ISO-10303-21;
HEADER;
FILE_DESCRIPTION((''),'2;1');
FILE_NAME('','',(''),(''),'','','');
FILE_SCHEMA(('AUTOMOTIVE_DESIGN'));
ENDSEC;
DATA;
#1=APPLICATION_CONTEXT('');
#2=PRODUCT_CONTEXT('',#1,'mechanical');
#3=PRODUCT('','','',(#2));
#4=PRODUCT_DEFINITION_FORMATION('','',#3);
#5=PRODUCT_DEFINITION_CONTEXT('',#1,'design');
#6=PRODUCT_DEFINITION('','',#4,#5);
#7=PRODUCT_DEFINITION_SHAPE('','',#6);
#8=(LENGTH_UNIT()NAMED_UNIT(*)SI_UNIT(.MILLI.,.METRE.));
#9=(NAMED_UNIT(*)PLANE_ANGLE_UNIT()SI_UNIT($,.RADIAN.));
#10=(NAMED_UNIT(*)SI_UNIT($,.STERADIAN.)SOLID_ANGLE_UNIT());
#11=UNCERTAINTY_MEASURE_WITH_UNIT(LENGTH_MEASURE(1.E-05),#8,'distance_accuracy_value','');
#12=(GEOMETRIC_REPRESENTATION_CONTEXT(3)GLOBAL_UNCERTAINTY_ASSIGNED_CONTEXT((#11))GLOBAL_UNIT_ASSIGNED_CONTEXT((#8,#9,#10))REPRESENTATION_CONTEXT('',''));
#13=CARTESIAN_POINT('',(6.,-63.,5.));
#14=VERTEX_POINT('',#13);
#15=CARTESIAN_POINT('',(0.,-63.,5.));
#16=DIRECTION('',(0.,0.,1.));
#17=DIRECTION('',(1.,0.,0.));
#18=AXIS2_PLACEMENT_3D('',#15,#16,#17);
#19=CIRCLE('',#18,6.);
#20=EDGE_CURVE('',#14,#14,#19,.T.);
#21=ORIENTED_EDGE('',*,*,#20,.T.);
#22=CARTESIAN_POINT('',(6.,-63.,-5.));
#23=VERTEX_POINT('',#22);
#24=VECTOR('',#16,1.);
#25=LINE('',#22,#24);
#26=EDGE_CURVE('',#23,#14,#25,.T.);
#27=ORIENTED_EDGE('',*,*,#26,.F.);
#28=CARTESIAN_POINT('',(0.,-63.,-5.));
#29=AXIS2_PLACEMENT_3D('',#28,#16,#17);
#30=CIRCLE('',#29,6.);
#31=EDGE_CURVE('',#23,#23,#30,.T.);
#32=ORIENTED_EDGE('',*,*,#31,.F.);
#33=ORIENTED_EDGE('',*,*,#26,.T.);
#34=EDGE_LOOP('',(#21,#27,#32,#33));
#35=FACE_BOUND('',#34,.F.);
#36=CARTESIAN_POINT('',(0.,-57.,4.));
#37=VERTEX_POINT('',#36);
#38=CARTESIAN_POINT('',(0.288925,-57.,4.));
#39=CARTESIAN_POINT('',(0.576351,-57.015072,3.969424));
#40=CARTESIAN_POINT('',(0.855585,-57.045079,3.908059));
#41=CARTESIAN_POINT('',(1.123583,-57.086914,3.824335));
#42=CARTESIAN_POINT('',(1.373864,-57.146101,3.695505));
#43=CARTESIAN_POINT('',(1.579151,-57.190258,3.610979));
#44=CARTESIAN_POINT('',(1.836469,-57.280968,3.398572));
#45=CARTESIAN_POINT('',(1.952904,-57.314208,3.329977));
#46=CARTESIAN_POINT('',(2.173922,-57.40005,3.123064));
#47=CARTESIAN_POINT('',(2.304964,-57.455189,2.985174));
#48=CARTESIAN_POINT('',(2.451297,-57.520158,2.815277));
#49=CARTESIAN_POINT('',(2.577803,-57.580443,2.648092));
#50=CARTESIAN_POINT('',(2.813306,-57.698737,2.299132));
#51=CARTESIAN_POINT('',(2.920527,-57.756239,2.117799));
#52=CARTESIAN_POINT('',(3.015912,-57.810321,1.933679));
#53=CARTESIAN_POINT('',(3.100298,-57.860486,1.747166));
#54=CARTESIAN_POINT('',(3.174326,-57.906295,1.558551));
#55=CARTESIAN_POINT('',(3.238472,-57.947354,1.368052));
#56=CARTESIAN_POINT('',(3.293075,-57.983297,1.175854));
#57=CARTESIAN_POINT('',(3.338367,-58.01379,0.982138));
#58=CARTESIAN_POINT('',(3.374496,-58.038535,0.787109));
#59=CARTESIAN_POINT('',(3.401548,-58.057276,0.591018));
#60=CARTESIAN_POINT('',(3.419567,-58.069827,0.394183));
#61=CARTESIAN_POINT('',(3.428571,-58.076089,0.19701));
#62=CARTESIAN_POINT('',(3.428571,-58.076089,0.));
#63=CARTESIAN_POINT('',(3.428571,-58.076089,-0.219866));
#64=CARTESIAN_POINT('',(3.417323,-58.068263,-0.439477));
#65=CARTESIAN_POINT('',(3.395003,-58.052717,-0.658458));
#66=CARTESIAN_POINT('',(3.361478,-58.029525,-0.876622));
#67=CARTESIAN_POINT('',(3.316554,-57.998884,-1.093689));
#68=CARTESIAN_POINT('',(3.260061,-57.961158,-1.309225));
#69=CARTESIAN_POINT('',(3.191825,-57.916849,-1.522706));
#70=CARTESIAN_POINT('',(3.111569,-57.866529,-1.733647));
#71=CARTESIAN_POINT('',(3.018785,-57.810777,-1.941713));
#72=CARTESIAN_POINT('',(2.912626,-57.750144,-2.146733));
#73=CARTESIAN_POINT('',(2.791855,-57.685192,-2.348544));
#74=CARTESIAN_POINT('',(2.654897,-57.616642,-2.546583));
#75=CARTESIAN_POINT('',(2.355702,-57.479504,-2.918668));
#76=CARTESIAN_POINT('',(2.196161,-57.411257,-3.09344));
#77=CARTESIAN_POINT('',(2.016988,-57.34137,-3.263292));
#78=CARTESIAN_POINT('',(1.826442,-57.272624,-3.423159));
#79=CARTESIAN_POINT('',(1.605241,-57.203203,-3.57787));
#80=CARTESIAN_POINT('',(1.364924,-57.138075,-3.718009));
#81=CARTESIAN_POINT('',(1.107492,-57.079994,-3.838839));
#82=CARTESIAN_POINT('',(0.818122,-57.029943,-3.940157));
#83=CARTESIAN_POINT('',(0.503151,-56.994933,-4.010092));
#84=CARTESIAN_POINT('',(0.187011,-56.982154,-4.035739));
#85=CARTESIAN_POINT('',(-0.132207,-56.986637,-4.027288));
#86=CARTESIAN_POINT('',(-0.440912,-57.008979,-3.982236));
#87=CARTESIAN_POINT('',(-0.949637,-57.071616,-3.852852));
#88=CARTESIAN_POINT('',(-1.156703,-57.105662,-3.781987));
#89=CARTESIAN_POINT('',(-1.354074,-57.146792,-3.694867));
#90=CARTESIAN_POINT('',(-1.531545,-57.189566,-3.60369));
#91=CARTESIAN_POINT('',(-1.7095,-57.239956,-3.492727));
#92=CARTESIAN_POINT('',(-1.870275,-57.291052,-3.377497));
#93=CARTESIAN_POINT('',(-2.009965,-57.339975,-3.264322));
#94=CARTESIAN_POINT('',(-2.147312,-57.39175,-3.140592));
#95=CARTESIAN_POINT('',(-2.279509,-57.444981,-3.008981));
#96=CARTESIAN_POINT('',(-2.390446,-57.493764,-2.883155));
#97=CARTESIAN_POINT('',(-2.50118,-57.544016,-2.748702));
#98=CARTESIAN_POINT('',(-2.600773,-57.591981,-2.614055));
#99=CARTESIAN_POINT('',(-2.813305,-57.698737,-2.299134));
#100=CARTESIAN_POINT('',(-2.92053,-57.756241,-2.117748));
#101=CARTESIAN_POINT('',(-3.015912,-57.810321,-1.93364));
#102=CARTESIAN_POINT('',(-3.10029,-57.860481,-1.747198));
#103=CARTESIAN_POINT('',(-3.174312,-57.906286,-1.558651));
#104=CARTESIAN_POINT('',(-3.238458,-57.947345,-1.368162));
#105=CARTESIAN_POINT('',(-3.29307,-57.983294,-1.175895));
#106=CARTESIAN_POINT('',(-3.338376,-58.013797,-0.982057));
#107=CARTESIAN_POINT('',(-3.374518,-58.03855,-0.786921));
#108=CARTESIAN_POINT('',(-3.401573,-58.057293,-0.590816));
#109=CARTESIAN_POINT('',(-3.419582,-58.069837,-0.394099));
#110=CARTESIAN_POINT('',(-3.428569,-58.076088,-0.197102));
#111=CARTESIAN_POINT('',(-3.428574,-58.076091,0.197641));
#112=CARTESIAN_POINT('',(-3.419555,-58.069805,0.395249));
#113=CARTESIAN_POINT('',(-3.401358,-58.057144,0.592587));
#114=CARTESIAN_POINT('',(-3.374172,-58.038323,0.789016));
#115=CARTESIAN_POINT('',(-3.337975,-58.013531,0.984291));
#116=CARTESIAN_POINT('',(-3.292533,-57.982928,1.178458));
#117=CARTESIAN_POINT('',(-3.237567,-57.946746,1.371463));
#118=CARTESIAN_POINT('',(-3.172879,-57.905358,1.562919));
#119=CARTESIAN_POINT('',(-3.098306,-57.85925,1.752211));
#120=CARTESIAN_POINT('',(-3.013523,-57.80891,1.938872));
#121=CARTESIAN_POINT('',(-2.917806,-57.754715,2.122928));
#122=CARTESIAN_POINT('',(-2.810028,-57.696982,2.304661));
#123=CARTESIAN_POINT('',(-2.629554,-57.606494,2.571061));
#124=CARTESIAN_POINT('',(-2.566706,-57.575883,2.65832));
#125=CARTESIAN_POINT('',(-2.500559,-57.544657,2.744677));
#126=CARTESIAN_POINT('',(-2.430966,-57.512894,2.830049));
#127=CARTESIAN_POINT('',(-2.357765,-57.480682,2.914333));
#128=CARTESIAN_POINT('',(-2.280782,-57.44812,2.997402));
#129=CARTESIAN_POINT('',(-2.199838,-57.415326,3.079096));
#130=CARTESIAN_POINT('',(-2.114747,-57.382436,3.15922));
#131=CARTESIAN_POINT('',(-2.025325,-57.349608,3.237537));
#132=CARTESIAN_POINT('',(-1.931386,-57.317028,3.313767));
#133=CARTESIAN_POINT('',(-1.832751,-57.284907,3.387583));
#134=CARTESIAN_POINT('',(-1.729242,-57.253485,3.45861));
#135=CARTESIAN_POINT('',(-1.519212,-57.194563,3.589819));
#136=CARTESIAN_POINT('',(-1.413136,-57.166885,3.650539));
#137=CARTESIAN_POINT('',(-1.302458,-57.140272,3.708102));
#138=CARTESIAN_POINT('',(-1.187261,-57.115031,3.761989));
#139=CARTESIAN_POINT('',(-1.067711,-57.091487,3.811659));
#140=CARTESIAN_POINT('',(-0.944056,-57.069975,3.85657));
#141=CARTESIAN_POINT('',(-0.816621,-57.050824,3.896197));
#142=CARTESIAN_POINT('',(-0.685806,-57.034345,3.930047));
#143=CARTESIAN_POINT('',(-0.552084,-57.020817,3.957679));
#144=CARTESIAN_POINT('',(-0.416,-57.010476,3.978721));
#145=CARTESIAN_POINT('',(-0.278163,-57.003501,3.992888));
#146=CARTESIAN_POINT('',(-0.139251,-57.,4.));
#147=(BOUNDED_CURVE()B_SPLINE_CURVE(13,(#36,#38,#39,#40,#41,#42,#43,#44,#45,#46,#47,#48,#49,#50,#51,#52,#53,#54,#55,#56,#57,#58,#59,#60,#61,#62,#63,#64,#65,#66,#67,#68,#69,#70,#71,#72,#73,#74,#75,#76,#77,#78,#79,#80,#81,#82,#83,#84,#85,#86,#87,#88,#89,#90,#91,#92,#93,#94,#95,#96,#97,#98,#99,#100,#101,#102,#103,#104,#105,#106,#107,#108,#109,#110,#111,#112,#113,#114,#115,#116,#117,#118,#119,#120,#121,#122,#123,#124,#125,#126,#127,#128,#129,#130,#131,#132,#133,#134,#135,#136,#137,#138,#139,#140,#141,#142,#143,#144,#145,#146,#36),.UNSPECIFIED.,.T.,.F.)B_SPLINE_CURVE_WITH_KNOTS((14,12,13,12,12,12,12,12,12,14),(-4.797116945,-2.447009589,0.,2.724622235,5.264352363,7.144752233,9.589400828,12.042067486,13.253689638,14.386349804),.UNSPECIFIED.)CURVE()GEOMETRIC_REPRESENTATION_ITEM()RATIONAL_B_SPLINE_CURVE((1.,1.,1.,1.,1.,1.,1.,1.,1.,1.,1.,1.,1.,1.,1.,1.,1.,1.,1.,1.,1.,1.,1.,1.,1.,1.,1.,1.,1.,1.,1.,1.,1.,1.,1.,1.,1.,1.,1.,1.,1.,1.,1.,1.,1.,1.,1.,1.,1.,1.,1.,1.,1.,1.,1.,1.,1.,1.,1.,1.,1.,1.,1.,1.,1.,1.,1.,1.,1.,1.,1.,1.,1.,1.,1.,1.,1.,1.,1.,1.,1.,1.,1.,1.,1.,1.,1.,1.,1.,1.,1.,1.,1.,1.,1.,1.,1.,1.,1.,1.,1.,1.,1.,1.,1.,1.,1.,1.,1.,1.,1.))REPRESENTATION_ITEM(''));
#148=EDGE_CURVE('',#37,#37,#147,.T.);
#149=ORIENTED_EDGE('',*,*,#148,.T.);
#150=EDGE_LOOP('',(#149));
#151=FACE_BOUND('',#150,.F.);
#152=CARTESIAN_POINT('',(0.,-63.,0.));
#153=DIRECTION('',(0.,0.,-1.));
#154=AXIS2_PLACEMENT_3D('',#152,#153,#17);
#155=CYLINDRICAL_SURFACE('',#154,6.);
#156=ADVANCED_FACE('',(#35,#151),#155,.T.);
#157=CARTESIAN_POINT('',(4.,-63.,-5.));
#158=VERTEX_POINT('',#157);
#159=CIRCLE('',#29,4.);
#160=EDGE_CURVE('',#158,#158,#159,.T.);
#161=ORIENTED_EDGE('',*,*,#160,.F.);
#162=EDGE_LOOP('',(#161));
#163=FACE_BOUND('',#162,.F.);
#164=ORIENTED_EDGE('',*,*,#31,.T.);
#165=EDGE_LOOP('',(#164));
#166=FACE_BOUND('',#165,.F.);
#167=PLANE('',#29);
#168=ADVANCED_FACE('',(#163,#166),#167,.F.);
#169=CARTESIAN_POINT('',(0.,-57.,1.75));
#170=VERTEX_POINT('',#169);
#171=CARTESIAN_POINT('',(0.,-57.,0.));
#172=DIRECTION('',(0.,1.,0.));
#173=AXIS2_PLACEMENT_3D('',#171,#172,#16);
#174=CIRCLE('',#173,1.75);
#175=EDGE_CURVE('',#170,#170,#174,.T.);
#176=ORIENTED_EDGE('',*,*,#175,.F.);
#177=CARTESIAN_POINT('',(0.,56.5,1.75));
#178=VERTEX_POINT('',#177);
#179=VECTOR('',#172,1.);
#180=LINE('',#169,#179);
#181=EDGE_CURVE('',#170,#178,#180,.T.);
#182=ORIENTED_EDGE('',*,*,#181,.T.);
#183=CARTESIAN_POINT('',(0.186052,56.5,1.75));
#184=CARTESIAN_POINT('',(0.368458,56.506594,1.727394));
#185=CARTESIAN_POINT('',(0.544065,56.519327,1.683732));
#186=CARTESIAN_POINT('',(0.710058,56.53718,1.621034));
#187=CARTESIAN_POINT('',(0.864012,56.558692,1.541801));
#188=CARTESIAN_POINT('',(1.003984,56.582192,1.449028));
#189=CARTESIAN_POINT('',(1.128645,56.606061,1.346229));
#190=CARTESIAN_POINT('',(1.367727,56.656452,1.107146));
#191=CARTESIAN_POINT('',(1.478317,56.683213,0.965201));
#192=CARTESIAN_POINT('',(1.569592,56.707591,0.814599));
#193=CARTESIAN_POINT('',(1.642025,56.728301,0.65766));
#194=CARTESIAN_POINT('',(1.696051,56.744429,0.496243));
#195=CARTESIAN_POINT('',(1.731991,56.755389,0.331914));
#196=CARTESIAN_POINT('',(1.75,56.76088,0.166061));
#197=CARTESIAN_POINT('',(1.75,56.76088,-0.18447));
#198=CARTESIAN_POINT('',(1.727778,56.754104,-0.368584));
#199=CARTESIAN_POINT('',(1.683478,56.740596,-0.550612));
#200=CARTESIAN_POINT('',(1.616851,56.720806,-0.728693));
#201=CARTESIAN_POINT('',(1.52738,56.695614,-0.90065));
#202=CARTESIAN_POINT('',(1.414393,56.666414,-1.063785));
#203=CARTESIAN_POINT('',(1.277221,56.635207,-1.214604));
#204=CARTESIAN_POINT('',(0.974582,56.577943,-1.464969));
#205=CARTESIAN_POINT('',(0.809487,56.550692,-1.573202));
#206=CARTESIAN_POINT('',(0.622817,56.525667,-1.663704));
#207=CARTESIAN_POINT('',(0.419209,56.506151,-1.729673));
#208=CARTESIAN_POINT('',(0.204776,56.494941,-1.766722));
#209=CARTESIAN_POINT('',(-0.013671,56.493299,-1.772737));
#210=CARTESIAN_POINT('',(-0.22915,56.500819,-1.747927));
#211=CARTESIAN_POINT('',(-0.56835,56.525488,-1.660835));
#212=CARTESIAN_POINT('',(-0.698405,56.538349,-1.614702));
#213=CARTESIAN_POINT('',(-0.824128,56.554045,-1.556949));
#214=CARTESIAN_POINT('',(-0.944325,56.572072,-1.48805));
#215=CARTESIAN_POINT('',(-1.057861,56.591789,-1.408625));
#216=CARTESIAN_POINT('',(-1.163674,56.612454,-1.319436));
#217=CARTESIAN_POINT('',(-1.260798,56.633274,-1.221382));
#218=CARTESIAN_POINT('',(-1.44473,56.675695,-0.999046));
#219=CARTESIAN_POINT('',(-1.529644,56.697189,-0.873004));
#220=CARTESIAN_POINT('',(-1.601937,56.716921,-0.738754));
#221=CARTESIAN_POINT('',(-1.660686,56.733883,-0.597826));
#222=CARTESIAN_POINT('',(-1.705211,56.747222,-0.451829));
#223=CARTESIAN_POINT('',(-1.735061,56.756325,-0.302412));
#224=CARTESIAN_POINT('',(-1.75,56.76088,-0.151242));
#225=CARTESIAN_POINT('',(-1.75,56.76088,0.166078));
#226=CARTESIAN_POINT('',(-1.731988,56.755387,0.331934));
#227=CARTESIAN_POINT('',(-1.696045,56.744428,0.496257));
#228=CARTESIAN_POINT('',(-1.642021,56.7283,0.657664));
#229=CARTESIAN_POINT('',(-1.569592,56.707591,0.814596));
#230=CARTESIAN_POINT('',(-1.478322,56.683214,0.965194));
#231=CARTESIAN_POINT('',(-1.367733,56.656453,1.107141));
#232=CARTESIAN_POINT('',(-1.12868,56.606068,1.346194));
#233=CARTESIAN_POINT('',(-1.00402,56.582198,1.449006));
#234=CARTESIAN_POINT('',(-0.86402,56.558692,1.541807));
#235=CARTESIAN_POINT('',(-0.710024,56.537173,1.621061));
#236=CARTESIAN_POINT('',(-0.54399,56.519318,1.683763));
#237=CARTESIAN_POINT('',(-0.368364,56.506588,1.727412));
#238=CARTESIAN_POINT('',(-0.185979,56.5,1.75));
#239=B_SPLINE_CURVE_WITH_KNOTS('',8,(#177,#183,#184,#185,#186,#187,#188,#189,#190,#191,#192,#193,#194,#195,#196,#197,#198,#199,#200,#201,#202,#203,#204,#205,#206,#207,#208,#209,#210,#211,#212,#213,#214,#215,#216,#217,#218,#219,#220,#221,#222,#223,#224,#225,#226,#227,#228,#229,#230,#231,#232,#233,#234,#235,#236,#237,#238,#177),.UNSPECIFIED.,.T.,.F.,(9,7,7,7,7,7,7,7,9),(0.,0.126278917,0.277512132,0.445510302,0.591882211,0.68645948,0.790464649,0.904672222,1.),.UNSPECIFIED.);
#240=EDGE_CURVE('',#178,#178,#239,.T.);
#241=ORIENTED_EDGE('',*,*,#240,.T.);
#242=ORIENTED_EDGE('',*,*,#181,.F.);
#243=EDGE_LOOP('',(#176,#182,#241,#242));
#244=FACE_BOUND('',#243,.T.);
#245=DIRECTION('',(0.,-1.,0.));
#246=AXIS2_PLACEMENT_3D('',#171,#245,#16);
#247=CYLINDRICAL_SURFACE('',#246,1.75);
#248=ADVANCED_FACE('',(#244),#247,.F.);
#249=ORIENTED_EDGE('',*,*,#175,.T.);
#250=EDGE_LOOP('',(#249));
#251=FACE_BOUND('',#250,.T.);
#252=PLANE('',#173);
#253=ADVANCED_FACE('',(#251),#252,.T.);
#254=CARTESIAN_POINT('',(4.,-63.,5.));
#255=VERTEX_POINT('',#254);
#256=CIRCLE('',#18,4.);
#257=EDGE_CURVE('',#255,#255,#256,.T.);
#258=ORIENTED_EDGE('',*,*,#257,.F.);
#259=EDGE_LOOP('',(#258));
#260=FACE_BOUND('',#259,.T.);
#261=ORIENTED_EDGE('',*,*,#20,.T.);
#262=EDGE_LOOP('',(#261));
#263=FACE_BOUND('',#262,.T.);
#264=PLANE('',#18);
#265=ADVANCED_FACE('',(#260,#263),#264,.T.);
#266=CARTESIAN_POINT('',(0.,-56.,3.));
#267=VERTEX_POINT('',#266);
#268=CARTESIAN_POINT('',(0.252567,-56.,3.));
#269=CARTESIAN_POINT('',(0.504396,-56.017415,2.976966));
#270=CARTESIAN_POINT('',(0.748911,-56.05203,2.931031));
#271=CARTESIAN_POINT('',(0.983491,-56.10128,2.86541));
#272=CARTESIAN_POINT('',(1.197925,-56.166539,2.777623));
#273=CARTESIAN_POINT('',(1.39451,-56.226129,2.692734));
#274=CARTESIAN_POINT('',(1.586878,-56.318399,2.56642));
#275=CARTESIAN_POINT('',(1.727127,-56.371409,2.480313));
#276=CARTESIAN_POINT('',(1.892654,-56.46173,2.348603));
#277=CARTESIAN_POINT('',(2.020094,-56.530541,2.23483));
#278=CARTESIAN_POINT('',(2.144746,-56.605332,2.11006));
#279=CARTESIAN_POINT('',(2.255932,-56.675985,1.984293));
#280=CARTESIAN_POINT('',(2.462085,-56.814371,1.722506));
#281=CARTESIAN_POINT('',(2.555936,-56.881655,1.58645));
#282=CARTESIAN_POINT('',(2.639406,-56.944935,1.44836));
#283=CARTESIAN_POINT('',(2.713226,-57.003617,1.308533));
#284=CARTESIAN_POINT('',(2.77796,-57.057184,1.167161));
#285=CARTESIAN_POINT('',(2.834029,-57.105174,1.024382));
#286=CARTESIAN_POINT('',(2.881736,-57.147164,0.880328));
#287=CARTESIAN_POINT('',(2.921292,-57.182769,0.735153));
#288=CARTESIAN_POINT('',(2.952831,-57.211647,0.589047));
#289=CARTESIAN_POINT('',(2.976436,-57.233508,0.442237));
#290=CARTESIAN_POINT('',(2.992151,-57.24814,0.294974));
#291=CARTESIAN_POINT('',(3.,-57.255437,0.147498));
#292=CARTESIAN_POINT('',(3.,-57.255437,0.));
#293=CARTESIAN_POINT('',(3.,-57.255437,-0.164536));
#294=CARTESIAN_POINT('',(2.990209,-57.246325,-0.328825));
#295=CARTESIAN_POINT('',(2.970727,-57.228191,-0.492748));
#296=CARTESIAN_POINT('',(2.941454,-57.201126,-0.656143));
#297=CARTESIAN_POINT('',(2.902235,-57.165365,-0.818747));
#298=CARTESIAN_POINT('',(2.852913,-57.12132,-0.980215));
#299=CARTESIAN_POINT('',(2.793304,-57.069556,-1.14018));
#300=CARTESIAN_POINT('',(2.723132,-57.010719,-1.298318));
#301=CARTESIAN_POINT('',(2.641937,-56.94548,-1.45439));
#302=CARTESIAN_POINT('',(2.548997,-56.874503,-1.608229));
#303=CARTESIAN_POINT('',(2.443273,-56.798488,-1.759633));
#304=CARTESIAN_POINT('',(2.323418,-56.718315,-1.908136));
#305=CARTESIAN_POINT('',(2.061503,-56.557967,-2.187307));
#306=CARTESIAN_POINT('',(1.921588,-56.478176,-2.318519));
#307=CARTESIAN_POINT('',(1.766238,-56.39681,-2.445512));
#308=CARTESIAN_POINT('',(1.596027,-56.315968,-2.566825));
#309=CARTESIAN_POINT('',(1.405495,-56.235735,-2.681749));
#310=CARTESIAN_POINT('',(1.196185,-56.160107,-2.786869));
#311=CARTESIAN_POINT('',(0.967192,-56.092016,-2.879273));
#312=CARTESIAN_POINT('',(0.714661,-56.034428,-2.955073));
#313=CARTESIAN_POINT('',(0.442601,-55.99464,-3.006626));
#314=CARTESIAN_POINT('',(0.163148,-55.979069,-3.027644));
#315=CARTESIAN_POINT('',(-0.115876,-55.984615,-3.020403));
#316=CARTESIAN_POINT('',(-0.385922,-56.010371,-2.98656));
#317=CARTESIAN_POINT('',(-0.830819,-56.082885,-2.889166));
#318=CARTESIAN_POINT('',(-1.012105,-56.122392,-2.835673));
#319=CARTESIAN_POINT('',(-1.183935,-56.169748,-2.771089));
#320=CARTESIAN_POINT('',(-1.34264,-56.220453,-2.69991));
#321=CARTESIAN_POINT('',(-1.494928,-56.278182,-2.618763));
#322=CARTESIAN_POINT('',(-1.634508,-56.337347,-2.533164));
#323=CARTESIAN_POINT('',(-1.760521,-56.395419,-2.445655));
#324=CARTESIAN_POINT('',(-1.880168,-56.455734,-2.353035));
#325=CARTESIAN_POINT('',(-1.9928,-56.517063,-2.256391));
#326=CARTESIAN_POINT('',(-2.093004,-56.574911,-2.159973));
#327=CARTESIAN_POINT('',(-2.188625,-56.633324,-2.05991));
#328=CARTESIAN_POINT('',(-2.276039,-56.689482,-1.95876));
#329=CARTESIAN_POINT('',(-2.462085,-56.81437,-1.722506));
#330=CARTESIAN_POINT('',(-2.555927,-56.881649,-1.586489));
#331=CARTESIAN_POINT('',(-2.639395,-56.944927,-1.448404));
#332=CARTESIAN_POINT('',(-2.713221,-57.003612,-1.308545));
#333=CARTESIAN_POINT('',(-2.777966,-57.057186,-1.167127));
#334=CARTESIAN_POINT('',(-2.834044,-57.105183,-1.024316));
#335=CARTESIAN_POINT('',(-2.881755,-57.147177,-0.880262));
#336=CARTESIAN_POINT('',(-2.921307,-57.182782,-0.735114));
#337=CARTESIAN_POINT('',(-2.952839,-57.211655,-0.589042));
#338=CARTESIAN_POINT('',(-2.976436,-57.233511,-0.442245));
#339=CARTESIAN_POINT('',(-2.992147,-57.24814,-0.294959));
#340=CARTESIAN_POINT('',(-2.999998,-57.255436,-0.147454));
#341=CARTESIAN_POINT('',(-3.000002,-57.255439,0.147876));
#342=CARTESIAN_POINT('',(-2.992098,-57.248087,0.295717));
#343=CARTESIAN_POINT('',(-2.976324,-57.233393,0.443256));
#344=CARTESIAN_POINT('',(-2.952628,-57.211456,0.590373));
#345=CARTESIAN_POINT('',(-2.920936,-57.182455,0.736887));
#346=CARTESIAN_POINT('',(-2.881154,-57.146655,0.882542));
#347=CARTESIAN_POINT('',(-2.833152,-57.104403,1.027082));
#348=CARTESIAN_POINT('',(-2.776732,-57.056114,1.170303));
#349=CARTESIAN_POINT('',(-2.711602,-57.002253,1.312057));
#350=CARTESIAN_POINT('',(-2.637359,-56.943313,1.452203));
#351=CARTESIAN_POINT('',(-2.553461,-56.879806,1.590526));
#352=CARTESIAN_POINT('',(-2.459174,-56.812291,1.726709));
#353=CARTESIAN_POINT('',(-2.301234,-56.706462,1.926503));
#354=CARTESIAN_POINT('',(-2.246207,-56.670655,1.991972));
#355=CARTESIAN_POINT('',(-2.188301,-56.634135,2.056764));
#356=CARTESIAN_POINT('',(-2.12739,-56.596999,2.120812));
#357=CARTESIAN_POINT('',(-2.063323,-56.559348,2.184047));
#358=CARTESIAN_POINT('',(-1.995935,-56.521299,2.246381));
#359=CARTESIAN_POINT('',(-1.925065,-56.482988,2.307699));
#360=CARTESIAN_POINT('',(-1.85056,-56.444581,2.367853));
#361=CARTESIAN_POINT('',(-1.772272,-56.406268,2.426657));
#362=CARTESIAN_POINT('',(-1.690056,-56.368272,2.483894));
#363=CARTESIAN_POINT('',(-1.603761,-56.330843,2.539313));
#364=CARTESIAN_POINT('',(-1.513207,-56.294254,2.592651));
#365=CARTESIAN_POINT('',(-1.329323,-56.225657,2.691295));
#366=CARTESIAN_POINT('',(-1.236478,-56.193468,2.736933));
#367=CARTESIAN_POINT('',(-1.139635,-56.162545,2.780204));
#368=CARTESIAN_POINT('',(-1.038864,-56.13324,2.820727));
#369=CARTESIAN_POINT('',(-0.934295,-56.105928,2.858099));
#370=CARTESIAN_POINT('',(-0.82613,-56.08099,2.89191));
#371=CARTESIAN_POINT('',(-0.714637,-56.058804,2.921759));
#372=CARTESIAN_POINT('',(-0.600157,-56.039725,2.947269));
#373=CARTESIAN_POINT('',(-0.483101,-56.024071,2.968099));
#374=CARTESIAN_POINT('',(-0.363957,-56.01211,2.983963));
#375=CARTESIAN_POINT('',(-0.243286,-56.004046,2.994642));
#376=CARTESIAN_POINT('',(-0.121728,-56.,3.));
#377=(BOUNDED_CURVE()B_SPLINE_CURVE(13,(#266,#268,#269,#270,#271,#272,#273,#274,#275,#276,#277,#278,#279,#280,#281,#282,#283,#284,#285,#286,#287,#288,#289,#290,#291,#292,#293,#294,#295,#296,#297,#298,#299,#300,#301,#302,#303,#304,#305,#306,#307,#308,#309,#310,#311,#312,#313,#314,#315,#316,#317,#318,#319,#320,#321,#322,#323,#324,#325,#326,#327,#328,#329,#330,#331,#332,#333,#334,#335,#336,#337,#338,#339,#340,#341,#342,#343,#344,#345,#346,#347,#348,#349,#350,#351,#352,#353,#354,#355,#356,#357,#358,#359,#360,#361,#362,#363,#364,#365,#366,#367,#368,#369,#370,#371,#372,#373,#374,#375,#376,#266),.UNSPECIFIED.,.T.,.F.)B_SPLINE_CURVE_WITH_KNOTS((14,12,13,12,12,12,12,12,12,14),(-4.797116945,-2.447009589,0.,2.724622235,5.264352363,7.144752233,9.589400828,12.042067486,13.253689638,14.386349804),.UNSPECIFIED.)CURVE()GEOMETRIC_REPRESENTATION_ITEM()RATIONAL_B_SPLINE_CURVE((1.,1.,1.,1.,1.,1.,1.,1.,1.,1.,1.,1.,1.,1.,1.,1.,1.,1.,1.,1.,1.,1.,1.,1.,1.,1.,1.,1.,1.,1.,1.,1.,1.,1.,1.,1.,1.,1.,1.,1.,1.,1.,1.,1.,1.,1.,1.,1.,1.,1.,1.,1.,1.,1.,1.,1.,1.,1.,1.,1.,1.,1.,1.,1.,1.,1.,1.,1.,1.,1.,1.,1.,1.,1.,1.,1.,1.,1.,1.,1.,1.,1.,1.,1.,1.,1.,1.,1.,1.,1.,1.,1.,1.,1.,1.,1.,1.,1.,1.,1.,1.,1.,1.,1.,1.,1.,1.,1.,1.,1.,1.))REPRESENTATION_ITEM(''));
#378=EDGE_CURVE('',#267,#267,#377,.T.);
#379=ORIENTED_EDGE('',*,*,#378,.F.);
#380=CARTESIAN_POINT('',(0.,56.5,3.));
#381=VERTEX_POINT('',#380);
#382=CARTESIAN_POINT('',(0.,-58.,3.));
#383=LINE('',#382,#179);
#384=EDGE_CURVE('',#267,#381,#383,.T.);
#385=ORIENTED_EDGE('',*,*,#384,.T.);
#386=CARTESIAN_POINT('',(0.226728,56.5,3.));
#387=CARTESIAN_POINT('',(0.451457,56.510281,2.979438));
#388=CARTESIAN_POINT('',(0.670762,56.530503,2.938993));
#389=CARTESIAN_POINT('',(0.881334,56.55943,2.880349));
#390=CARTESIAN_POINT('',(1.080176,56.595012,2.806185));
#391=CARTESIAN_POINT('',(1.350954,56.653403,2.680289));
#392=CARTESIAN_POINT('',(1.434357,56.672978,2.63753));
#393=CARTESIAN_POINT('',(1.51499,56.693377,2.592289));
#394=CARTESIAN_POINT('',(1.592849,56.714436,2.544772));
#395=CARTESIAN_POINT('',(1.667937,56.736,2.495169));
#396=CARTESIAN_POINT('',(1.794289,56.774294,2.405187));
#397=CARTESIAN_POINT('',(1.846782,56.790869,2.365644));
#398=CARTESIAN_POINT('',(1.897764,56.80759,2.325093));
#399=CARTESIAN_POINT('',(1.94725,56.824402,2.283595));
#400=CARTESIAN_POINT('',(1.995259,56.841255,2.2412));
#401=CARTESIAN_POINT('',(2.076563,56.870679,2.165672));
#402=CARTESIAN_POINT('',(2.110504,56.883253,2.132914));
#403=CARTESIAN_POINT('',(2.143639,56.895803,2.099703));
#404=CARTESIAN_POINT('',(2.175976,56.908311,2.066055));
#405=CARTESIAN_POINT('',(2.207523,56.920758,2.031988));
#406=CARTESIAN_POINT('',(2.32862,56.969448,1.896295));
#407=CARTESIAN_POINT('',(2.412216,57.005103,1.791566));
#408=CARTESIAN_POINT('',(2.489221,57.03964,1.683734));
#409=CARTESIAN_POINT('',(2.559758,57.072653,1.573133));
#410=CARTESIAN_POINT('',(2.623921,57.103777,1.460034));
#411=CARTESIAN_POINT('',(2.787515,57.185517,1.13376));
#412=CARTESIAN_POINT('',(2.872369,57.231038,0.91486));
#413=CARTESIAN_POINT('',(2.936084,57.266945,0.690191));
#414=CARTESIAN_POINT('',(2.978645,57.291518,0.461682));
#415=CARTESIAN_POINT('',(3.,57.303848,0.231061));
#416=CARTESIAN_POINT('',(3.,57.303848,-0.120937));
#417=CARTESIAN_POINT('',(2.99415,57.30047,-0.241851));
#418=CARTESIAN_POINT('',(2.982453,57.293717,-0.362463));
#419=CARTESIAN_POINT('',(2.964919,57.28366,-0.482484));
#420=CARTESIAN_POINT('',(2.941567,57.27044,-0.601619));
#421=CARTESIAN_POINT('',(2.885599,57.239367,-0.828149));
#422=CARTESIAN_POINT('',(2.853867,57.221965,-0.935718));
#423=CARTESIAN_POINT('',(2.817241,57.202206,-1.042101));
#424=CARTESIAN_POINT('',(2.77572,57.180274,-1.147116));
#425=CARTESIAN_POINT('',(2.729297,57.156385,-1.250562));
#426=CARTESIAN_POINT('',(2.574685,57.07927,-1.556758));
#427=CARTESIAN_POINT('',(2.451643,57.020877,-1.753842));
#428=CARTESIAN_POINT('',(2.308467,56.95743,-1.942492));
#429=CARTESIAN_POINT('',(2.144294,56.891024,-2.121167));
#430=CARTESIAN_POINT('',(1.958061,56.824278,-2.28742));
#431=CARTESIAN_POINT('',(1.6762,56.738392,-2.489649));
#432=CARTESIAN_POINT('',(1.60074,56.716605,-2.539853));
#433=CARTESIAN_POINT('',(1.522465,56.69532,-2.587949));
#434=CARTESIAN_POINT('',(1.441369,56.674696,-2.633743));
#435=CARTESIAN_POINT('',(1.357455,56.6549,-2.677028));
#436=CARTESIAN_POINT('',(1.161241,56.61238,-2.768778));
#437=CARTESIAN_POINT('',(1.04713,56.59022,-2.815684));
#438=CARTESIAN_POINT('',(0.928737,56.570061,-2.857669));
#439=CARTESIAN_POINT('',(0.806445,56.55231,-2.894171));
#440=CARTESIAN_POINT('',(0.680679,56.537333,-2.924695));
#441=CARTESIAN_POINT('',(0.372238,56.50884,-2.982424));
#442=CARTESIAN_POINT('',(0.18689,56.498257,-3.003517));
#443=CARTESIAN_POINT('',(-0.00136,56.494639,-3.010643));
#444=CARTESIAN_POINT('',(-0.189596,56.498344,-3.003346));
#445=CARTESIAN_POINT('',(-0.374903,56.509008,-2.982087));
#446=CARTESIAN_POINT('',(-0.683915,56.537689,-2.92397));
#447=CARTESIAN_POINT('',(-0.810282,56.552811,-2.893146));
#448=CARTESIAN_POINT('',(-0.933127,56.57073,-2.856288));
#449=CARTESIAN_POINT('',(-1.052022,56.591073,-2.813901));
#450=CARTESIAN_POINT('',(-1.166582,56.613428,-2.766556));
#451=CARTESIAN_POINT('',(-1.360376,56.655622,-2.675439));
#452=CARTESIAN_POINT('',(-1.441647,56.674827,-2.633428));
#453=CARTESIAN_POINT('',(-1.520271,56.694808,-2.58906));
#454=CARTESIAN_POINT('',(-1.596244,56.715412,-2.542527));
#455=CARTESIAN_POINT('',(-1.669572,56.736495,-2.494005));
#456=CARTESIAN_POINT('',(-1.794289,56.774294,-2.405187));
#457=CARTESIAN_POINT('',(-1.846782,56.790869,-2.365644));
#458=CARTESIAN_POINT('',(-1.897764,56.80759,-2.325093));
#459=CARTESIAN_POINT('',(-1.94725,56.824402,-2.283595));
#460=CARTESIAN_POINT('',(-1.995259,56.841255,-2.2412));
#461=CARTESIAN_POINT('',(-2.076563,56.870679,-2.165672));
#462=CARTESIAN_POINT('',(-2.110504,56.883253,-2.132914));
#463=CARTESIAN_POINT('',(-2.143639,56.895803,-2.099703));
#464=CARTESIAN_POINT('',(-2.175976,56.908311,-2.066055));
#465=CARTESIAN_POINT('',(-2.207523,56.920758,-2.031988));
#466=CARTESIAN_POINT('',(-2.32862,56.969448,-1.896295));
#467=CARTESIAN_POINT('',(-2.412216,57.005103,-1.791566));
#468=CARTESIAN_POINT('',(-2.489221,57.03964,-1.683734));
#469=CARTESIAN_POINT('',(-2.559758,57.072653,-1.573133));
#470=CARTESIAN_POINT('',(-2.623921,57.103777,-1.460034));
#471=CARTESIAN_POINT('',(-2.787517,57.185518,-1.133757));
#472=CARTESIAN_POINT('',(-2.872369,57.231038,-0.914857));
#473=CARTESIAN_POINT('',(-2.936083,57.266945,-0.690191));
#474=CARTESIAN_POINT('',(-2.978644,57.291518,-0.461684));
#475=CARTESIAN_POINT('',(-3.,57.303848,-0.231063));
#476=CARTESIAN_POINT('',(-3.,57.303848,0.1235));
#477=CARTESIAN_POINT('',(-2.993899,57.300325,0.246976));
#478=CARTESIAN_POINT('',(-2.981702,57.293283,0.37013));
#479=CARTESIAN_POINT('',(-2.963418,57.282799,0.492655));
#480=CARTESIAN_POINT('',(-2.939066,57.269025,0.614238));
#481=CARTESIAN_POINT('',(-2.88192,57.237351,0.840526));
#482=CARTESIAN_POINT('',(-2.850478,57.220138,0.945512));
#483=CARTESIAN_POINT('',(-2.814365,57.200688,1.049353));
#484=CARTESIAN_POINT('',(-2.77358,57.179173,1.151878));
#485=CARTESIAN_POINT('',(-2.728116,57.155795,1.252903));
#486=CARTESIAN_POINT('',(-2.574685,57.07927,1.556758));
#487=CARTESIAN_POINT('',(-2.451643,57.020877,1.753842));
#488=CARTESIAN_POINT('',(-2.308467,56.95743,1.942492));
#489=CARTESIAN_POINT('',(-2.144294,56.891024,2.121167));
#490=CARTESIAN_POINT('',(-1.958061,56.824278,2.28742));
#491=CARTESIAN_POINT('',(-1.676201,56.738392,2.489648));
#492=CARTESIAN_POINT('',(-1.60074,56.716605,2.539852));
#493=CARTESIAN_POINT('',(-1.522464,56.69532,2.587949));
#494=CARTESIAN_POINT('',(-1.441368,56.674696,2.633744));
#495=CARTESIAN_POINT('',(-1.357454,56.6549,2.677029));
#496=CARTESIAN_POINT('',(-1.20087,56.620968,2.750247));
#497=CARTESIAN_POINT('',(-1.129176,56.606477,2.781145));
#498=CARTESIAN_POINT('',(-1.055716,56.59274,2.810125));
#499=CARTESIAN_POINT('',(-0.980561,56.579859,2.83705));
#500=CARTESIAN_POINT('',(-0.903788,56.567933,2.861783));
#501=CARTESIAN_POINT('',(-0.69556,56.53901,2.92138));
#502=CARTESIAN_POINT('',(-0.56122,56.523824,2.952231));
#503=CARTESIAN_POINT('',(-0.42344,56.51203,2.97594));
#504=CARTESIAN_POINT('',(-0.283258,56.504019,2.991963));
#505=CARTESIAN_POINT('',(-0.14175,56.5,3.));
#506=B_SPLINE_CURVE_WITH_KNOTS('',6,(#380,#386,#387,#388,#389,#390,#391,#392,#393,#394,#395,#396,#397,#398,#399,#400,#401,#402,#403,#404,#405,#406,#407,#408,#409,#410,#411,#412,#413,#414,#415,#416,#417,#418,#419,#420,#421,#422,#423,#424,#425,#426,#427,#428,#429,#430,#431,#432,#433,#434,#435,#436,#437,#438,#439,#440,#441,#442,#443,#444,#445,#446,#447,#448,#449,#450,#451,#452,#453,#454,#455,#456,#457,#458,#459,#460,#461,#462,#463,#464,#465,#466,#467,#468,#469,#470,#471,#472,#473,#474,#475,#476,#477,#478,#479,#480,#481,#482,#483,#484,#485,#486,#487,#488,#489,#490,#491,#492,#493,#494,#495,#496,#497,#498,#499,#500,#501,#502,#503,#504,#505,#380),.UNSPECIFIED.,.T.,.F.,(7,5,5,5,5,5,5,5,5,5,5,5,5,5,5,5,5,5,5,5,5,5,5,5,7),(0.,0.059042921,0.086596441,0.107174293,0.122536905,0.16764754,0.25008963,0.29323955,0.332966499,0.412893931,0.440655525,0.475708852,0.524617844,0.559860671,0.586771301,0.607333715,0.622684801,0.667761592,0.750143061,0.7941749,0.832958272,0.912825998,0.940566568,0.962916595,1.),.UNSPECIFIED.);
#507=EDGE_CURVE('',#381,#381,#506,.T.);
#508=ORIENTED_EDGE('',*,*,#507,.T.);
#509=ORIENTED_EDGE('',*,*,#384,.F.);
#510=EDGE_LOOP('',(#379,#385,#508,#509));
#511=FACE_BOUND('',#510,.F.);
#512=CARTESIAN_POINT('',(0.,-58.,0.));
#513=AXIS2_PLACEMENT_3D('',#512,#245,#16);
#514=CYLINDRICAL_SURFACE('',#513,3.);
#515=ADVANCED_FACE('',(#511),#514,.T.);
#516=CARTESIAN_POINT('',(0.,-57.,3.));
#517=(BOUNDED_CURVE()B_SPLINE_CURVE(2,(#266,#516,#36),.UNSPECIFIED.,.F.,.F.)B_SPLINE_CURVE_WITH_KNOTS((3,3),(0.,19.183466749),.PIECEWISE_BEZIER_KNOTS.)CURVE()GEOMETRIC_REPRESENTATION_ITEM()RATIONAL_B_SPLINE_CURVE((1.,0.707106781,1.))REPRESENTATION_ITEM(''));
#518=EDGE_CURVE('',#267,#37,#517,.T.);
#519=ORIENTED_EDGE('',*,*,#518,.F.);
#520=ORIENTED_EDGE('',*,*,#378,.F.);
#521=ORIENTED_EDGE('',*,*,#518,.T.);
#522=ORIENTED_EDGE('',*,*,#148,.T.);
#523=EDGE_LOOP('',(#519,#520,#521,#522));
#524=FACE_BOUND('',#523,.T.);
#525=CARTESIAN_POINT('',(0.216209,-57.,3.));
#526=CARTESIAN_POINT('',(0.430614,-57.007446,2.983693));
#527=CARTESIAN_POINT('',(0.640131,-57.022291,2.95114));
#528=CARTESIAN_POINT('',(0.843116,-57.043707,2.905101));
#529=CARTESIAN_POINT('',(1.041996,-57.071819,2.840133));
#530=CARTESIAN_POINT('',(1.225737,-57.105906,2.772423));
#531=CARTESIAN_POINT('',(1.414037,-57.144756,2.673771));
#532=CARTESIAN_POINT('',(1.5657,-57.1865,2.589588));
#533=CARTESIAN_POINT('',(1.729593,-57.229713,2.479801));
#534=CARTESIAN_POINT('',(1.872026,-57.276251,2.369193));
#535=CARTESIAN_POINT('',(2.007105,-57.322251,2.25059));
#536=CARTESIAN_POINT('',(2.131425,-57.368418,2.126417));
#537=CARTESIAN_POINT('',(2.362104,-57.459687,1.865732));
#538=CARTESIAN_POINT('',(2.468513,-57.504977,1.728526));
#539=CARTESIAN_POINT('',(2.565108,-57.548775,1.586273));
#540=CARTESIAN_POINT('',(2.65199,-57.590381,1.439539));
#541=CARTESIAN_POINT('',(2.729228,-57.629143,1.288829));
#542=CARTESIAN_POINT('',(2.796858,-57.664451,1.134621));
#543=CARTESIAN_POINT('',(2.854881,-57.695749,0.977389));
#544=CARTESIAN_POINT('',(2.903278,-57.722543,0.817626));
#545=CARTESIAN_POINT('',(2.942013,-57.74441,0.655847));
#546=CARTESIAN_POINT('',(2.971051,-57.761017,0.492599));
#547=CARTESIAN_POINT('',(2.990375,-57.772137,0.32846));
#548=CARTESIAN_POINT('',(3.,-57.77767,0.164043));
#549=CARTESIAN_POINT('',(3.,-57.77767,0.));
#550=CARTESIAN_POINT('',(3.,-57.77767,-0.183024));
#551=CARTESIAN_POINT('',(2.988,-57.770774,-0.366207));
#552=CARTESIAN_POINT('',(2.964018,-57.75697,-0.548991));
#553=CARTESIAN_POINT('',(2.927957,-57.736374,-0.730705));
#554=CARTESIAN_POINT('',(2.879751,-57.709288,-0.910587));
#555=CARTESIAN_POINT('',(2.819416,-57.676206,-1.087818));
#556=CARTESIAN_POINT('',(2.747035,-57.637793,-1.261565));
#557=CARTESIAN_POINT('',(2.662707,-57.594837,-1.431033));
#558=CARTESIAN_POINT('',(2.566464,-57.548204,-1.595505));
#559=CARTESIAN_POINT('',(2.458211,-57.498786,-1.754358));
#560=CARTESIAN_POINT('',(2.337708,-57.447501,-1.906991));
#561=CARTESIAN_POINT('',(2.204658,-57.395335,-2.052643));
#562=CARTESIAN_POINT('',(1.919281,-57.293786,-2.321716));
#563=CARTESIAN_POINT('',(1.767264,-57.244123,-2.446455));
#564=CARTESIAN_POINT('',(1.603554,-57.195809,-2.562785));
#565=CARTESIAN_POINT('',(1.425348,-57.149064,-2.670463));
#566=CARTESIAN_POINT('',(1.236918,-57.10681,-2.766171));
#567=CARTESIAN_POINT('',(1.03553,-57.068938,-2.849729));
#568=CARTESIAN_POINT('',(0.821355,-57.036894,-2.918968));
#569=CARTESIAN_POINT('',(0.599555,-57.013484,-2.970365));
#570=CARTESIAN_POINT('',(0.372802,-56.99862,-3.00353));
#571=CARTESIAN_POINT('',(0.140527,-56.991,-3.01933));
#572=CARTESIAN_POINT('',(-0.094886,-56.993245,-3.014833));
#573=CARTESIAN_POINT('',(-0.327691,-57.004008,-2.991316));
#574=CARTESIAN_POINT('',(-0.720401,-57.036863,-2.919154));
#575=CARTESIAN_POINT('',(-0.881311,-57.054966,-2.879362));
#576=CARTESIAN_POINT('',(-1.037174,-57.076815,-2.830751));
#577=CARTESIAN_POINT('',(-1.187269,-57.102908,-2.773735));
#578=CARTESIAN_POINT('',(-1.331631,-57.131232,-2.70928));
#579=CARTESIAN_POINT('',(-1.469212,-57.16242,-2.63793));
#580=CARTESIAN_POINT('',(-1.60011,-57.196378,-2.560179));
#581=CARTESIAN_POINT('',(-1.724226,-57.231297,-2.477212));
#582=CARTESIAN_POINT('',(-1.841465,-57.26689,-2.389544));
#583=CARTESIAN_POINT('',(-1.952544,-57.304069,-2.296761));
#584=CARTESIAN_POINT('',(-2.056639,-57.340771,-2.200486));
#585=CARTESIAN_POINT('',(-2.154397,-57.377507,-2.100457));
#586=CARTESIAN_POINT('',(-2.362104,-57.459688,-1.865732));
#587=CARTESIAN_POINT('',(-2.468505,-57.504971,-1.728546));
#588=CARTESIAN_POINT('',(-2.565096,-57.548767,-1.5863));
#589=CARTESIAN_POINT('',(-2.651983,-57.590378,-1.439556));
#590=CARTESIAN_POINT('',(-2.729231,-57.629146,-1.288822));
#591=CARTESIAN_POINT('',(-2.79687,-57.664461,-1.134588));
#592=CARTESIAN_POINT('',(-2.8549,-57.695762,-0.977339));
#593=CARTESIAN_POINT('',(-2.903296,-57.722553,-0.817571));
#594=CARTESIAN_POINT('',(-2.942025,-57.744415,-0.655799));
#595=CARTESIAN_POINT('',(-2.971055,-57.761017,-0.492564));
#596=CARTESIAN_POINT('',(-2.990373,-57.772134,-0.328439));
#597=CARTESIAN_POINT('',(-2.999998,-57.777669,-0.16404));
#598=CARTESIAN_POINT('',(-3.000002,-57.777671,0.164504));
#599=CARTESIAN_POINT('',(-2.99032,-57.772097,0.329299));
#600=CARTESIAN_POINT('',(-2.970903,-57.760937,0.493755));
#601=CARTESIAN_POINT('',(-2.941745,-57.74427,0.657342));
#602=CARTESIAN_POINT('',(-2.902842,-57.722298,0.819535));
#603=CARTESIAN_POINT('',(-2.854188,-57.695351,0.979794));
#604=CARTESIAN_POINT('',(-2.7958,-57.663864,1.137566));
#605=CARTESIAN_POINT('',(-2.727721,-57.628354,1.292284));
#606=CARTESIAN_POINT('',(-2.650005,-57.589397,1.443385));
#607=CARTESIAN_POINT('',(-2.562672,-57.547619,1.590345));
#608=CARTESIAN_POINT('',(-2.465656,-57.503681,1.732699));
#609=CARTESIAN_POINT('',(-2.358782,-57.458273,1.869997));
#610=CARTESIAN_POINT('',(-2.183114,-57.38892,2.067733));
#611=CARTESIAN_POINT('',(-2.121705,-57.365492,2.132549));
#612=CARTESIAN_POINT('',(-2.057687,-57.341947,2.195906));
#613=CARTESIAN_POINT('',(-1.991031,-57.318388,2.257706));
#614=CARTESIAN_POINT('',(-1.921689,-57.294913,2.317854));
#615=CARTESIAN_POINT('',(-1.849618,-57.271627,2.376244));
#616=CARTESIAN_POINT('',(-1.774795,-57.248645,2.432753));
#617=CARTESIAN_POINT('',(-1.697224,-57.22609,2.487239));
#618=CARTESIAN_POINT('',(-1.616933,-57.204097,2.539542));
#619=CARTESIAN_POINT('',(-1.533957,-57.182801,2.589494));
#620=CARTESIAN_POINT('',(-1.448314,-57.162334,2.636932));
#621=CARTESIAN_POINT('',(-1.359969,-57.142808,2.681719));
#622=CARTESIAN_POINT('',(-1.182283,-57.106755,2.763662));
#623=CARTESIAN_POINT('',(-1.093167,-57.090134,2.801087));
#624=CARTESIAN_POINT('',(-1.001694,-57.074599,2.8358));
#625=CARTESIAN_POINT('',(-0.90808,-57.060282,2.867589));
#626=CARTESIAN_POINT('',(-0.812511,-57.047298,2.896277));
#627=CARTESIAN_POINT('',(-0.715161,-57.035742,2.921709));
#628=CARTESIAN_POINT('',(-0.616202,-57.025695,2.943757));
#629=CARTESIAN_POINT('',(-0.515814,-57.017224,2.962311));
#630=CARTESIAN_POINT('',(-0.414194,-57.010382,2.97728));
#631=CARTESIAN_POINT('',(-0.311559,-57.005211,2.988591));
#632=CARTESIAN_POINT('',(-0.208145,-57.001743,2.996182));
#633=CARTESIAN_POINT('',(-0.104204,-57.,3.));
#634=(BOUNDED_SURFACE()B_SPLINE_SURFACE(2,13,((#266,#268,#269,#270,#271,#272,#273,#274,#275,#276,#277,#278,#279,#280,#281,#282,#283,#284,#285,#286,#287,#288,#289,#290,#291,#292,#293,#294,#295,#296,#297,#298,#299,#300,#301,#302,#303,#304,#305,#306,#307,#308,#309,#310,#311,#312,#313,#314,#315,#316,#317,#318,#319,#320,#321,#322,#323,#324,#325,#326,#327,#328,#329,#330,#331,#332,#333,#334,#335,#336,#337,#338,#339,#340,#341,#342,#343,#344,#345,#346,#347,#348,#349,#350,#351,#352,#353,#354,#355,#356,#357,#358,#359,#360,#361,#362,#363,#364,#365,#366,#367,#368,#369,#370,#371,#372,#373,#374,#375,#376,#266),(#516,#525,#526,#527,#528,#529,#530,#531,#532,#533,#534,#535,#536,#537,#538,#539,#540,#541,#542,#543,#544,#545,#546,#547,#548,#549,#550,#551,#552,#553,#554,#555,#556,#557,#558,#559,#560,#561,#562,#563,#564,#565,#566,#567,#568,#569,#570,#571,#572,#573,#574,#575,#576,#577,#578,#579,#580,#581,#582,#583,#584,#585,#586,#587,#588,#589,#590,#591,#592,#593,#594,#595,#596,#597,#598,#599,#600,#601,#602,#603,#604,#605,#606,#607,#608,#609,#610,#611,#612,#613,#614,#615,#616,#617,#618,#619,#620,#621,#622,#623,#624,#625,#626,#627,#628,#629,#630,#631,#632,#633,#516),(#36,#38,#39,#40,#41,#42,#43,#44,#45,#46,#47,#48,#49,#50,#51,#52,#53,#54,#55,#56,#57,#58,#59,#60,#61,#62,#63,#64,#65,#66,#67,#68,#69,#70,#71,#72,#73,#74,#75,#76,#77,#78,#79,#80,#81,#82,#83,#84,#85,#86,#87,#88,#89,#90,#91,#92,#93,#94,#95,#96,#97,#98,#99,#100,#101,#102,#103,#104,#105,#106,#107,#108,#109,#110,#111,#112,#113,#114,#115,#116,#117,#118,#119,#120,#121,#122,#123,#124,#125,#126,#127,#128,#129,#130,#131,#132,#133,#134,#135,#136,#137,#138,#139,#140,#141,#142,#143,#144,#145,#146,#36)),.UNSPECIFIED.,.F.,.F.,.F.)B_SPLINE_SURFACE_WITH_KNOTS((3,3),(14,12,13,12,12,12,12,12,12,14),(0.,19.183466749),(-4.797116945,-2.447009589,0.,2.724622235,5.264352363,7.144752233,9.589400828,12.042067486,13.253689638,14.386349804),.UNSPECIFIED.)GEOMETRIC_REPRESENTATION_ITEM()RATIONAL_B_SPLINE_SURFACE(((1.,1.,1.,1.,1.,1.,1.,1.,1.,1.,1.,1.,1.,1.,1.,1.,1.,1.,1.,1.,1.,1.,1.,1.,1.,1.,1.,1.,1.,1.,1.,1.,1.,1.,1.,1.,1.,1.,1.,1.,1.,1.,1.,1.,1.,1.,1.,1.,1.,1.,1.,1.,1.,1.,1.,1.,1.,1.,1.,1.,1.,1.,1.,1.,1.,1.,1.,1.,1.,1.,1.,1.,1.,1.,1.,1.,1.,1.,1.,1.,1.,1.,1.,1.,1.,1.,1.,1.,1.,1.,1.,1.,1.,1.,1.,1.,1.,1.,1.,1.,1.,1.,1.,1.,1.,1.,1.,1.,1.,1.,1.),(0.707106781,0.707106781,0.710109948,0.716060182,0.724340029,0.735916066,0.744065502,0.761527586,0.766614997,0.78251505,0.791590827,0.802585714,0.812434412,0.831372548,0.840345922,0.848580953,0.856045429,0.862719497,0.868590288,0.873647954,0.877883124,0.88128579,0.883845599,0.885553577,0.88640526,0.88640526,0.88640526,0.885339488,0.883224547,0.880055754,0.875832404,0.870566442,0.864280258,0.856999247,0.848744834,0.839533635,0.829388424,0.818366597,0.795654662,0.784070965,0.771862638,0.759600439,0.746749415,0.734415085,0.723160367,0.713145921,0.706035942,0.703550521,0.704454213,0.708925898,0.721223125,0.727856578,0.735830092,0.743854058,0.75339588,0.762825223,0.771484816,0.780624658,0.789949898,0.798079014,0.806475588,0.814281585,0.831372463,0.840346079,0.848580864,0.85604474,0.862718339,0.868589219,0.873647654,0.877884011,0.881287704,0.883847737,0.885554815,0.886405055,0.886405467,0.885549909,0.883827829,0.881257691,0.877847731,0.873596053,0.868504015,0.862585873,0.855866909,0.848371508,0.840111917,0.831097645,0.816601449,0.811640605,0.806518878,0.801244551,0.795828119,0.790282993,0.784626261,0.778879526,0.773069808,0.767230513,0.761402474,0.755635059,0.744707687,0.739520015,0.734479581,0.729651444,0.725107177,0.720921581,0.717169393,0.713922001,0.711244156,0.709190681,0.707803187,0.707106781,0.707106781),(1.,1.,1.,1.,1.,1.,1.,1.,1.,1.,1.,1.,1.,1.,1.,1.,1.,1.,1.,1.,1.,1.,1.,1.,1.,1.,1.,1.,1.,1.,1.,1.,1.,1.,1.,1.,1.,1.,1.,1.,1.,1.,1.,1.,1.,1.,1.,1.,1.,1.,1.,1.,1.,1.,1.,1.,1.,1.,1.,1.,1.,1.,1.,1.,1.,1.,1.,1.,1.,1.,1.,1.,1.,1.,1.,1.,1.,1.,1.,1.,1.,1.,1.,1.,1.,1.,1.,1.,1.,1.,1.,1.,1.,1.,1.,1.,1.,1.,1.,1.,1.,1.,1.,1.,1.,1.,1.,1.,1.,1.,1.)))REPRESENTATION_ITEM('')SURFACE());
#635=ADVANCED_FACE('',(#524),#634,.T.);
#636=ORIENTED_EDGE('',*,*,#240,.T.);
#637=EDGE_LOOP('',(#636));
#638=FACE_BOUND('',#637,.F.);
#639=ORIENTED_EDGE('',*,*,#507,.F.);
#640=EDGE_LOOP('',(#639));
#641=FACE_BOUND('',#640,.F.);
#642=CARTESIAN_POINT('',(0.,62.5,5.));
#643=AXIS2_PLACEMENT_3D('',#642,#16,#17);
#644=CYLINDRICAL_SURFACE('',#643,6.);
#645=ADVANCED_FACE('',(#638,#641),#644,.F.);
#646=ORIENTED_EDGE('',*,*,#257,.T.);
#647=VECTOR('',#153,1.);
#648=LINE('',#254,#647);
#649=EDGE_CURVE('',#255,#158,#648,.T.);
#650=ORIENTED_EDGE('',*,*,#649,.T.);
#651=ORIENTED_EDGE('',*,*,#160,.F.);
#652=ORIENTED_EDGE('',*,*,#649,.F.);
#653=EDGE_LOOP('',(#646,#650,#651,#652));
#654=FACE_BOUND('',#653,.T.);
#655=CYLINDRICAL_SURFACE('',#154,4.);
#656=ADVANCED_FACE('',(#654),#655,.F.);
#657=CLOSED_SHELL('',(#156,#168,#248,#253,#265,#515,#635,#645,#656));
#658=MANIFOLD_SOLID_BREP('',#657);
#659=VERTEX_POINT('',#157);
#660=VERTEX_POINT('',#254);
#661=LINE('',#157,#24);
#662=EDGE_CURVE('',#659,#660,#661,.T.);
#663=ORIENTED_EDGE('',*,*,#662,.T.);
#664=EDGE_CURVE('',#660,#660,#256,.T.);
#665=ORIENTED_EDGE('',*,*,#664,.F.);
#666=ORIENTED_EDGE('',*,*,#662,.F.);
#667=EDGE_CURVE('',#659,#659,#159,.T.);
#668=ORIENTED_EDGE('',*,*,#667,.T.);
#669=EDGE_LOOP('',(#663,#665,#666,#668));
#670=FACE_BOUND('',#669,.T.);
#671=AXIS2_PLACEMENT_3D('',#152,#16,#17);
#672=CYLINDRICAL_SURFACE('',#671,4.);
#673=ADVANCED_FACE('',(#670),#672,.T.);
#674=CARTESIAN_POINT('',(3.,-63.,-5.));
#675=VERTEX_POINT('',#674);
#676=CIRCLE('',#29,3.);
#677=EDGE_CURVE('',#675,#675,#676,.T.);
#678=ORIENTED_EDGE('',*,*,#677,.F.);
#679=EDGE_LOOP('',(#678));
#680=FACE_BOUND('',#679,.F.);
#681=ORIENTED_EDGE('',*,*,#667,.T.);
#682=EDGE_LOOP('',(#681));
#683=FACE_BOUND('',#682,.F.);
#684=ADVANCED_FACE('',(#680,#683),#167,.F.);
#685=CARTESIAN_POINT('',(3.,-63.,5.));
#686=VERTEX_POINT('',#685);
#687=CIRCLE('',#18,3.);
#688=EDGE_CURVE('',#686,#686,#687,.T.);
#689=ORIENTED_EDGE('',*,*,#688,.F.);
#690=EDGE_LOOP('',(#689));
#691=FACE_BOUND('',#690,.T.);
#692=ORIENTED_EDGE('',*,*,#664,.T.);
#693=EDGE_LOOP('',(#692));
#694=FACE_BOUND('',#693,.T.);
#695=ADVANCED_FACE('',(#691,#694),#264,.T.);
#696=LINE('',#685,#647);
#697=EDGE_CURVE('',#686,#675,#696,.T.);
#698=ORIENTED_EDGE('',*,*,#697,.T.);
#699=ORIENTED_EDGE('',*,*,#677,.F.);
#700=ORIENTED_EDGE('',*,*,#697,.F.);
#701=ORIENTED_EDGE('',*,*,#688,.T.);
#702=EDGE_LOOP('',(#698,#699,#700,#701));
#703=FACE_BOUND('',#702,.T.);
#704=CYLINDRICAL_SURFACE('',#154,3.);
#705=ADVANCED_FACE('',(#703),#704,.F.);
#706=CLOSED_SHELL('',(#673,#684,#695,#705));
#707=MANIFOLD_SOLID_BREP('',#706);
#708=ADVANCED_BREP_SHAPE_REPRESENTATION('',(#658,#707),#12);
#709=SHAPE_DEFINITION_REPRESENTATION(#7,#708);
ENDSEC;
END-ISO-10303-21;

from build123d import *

# Parameters (mm, degrees)
BOSS_EXTRUDE1_DEPTH      = 57.5
BOSS_EXTRUDE1_DEPTH_BACK = 58
SKETCH1_R                = 3
SKETCH2_R                = 6
SKETCH2_R_2              = 4
SKETCH2_R_3              = 3
BOSS_EXTRUDE2_DEPTH      = 5
SKETCH3_R                = 4
SKETCH3_R_2              = 3
BOSS_EXTRUDE3_DEPTH      = 5
FILLET1_R                = 1
SKETCH5_R                = 6
CUT_EXTRUDE2_DEPTH       = 10
CUT_EXTRUDE3_DEPTH       = 58
CUT_EXTRUDE3_DEPTH_BACK  = 57
SKETCH6_R                = 1.75


with BuildPart() as part:
    # Sketch1 → Boss-Extrude1 (new, two sides: drawn at the far end of the back side and taken through both)
    with BuildSketch(Plane(origin=(0, 0, 0), x_dir=(1, 0, 0), z_dir=(0, 1, 0)).offset(-BOSS_EXTRUDE1_DEPTH_BACK)):
        with Locations(Location((0, 0, 0), (0, 0, 270))):
            Circle(SKETCH1_R)
    extrude(amount=BOSS_EXTRUDE1_DEPTH + BOSS_EXTRUDE1_DEPTH_BACK)

    # Sketch2 → Boss-Extrude2 (add, symmetric)
    # profile 1 of 2: a face of its own
    with BuildSketch(Plane.XY):
        with Locations((0, -63)):
            Circle(SKETCH2_R)
        with Locations((0, -63)):
            Circle(SKETCH2_R_2, mode=Mode.SUBTRACT)
    # profile 2 of 2: a face of its own
    with BuildSketch(Plane.XY):
        with Locations((0, 62.5)):
            Circle(SKETCH2_R)
        with Locations((0, 62.5)):
            Circle(SKETCH2_R_3, mode=Mode.SUBTRACT)
    extrude(amount=BOSS_EXTRUDE2_DEPTH, both=True)

    # Fillet1
    fillet1_edges = [part.edges().sort_by_distance(p)[0] for p in [
        (0, -57, -3.000000001),
    ]]
    fillet(fillet1_edges, radius=FILLET1_R)

    # Sketch5 → Cut-Extrude2 (cut)
    with BuildSketch(Plane.XY.offset(5)):
        with Locations((0, 62.5)):
            Circle(SKETCH5_R)
    extrude(amount=-CUT_EXTRUDE2_DEPTH, mode=Mode.SUBTRACT)

    # Sketch6 → Cut-Extrude3 (cut, two sides: drawn at the far end of the back side and taken through both)
    with BuildSketch(Plane(origin=(0, 0, 0), x_dir=(1, 0, 0), z_dir=(0, 1, 0)).offset(-CUT_EXTRUDE3_DEPTH_BACK)):
        with Locations(Location((0, 0, 0), (0, 0, 270))):
            Circle(SKETCH6_R)
    extrude(amount=CUT_EXTRUDE3_DEPTH + CUT_EXTRUDE3_DEPTH_BACK, mode=Mode.SUBTRACT)


with BuildPart() as body_2:
    # Sketch3 → Boss-Extrude3 (new, symmetric)
    with BuildSketch(Plane.XY):
        with Locations((0, -63)):
            Circle(SKETCH3_R)
        with Locations((0, -63)):
            Circle(SKETCH3_R_2, mode=Mode.SUBTRACT)
    extrude(amount=BOSS_EXTRUDE3_DEPTH, both=True)


solid = Compound([part.part, body_2.part])
